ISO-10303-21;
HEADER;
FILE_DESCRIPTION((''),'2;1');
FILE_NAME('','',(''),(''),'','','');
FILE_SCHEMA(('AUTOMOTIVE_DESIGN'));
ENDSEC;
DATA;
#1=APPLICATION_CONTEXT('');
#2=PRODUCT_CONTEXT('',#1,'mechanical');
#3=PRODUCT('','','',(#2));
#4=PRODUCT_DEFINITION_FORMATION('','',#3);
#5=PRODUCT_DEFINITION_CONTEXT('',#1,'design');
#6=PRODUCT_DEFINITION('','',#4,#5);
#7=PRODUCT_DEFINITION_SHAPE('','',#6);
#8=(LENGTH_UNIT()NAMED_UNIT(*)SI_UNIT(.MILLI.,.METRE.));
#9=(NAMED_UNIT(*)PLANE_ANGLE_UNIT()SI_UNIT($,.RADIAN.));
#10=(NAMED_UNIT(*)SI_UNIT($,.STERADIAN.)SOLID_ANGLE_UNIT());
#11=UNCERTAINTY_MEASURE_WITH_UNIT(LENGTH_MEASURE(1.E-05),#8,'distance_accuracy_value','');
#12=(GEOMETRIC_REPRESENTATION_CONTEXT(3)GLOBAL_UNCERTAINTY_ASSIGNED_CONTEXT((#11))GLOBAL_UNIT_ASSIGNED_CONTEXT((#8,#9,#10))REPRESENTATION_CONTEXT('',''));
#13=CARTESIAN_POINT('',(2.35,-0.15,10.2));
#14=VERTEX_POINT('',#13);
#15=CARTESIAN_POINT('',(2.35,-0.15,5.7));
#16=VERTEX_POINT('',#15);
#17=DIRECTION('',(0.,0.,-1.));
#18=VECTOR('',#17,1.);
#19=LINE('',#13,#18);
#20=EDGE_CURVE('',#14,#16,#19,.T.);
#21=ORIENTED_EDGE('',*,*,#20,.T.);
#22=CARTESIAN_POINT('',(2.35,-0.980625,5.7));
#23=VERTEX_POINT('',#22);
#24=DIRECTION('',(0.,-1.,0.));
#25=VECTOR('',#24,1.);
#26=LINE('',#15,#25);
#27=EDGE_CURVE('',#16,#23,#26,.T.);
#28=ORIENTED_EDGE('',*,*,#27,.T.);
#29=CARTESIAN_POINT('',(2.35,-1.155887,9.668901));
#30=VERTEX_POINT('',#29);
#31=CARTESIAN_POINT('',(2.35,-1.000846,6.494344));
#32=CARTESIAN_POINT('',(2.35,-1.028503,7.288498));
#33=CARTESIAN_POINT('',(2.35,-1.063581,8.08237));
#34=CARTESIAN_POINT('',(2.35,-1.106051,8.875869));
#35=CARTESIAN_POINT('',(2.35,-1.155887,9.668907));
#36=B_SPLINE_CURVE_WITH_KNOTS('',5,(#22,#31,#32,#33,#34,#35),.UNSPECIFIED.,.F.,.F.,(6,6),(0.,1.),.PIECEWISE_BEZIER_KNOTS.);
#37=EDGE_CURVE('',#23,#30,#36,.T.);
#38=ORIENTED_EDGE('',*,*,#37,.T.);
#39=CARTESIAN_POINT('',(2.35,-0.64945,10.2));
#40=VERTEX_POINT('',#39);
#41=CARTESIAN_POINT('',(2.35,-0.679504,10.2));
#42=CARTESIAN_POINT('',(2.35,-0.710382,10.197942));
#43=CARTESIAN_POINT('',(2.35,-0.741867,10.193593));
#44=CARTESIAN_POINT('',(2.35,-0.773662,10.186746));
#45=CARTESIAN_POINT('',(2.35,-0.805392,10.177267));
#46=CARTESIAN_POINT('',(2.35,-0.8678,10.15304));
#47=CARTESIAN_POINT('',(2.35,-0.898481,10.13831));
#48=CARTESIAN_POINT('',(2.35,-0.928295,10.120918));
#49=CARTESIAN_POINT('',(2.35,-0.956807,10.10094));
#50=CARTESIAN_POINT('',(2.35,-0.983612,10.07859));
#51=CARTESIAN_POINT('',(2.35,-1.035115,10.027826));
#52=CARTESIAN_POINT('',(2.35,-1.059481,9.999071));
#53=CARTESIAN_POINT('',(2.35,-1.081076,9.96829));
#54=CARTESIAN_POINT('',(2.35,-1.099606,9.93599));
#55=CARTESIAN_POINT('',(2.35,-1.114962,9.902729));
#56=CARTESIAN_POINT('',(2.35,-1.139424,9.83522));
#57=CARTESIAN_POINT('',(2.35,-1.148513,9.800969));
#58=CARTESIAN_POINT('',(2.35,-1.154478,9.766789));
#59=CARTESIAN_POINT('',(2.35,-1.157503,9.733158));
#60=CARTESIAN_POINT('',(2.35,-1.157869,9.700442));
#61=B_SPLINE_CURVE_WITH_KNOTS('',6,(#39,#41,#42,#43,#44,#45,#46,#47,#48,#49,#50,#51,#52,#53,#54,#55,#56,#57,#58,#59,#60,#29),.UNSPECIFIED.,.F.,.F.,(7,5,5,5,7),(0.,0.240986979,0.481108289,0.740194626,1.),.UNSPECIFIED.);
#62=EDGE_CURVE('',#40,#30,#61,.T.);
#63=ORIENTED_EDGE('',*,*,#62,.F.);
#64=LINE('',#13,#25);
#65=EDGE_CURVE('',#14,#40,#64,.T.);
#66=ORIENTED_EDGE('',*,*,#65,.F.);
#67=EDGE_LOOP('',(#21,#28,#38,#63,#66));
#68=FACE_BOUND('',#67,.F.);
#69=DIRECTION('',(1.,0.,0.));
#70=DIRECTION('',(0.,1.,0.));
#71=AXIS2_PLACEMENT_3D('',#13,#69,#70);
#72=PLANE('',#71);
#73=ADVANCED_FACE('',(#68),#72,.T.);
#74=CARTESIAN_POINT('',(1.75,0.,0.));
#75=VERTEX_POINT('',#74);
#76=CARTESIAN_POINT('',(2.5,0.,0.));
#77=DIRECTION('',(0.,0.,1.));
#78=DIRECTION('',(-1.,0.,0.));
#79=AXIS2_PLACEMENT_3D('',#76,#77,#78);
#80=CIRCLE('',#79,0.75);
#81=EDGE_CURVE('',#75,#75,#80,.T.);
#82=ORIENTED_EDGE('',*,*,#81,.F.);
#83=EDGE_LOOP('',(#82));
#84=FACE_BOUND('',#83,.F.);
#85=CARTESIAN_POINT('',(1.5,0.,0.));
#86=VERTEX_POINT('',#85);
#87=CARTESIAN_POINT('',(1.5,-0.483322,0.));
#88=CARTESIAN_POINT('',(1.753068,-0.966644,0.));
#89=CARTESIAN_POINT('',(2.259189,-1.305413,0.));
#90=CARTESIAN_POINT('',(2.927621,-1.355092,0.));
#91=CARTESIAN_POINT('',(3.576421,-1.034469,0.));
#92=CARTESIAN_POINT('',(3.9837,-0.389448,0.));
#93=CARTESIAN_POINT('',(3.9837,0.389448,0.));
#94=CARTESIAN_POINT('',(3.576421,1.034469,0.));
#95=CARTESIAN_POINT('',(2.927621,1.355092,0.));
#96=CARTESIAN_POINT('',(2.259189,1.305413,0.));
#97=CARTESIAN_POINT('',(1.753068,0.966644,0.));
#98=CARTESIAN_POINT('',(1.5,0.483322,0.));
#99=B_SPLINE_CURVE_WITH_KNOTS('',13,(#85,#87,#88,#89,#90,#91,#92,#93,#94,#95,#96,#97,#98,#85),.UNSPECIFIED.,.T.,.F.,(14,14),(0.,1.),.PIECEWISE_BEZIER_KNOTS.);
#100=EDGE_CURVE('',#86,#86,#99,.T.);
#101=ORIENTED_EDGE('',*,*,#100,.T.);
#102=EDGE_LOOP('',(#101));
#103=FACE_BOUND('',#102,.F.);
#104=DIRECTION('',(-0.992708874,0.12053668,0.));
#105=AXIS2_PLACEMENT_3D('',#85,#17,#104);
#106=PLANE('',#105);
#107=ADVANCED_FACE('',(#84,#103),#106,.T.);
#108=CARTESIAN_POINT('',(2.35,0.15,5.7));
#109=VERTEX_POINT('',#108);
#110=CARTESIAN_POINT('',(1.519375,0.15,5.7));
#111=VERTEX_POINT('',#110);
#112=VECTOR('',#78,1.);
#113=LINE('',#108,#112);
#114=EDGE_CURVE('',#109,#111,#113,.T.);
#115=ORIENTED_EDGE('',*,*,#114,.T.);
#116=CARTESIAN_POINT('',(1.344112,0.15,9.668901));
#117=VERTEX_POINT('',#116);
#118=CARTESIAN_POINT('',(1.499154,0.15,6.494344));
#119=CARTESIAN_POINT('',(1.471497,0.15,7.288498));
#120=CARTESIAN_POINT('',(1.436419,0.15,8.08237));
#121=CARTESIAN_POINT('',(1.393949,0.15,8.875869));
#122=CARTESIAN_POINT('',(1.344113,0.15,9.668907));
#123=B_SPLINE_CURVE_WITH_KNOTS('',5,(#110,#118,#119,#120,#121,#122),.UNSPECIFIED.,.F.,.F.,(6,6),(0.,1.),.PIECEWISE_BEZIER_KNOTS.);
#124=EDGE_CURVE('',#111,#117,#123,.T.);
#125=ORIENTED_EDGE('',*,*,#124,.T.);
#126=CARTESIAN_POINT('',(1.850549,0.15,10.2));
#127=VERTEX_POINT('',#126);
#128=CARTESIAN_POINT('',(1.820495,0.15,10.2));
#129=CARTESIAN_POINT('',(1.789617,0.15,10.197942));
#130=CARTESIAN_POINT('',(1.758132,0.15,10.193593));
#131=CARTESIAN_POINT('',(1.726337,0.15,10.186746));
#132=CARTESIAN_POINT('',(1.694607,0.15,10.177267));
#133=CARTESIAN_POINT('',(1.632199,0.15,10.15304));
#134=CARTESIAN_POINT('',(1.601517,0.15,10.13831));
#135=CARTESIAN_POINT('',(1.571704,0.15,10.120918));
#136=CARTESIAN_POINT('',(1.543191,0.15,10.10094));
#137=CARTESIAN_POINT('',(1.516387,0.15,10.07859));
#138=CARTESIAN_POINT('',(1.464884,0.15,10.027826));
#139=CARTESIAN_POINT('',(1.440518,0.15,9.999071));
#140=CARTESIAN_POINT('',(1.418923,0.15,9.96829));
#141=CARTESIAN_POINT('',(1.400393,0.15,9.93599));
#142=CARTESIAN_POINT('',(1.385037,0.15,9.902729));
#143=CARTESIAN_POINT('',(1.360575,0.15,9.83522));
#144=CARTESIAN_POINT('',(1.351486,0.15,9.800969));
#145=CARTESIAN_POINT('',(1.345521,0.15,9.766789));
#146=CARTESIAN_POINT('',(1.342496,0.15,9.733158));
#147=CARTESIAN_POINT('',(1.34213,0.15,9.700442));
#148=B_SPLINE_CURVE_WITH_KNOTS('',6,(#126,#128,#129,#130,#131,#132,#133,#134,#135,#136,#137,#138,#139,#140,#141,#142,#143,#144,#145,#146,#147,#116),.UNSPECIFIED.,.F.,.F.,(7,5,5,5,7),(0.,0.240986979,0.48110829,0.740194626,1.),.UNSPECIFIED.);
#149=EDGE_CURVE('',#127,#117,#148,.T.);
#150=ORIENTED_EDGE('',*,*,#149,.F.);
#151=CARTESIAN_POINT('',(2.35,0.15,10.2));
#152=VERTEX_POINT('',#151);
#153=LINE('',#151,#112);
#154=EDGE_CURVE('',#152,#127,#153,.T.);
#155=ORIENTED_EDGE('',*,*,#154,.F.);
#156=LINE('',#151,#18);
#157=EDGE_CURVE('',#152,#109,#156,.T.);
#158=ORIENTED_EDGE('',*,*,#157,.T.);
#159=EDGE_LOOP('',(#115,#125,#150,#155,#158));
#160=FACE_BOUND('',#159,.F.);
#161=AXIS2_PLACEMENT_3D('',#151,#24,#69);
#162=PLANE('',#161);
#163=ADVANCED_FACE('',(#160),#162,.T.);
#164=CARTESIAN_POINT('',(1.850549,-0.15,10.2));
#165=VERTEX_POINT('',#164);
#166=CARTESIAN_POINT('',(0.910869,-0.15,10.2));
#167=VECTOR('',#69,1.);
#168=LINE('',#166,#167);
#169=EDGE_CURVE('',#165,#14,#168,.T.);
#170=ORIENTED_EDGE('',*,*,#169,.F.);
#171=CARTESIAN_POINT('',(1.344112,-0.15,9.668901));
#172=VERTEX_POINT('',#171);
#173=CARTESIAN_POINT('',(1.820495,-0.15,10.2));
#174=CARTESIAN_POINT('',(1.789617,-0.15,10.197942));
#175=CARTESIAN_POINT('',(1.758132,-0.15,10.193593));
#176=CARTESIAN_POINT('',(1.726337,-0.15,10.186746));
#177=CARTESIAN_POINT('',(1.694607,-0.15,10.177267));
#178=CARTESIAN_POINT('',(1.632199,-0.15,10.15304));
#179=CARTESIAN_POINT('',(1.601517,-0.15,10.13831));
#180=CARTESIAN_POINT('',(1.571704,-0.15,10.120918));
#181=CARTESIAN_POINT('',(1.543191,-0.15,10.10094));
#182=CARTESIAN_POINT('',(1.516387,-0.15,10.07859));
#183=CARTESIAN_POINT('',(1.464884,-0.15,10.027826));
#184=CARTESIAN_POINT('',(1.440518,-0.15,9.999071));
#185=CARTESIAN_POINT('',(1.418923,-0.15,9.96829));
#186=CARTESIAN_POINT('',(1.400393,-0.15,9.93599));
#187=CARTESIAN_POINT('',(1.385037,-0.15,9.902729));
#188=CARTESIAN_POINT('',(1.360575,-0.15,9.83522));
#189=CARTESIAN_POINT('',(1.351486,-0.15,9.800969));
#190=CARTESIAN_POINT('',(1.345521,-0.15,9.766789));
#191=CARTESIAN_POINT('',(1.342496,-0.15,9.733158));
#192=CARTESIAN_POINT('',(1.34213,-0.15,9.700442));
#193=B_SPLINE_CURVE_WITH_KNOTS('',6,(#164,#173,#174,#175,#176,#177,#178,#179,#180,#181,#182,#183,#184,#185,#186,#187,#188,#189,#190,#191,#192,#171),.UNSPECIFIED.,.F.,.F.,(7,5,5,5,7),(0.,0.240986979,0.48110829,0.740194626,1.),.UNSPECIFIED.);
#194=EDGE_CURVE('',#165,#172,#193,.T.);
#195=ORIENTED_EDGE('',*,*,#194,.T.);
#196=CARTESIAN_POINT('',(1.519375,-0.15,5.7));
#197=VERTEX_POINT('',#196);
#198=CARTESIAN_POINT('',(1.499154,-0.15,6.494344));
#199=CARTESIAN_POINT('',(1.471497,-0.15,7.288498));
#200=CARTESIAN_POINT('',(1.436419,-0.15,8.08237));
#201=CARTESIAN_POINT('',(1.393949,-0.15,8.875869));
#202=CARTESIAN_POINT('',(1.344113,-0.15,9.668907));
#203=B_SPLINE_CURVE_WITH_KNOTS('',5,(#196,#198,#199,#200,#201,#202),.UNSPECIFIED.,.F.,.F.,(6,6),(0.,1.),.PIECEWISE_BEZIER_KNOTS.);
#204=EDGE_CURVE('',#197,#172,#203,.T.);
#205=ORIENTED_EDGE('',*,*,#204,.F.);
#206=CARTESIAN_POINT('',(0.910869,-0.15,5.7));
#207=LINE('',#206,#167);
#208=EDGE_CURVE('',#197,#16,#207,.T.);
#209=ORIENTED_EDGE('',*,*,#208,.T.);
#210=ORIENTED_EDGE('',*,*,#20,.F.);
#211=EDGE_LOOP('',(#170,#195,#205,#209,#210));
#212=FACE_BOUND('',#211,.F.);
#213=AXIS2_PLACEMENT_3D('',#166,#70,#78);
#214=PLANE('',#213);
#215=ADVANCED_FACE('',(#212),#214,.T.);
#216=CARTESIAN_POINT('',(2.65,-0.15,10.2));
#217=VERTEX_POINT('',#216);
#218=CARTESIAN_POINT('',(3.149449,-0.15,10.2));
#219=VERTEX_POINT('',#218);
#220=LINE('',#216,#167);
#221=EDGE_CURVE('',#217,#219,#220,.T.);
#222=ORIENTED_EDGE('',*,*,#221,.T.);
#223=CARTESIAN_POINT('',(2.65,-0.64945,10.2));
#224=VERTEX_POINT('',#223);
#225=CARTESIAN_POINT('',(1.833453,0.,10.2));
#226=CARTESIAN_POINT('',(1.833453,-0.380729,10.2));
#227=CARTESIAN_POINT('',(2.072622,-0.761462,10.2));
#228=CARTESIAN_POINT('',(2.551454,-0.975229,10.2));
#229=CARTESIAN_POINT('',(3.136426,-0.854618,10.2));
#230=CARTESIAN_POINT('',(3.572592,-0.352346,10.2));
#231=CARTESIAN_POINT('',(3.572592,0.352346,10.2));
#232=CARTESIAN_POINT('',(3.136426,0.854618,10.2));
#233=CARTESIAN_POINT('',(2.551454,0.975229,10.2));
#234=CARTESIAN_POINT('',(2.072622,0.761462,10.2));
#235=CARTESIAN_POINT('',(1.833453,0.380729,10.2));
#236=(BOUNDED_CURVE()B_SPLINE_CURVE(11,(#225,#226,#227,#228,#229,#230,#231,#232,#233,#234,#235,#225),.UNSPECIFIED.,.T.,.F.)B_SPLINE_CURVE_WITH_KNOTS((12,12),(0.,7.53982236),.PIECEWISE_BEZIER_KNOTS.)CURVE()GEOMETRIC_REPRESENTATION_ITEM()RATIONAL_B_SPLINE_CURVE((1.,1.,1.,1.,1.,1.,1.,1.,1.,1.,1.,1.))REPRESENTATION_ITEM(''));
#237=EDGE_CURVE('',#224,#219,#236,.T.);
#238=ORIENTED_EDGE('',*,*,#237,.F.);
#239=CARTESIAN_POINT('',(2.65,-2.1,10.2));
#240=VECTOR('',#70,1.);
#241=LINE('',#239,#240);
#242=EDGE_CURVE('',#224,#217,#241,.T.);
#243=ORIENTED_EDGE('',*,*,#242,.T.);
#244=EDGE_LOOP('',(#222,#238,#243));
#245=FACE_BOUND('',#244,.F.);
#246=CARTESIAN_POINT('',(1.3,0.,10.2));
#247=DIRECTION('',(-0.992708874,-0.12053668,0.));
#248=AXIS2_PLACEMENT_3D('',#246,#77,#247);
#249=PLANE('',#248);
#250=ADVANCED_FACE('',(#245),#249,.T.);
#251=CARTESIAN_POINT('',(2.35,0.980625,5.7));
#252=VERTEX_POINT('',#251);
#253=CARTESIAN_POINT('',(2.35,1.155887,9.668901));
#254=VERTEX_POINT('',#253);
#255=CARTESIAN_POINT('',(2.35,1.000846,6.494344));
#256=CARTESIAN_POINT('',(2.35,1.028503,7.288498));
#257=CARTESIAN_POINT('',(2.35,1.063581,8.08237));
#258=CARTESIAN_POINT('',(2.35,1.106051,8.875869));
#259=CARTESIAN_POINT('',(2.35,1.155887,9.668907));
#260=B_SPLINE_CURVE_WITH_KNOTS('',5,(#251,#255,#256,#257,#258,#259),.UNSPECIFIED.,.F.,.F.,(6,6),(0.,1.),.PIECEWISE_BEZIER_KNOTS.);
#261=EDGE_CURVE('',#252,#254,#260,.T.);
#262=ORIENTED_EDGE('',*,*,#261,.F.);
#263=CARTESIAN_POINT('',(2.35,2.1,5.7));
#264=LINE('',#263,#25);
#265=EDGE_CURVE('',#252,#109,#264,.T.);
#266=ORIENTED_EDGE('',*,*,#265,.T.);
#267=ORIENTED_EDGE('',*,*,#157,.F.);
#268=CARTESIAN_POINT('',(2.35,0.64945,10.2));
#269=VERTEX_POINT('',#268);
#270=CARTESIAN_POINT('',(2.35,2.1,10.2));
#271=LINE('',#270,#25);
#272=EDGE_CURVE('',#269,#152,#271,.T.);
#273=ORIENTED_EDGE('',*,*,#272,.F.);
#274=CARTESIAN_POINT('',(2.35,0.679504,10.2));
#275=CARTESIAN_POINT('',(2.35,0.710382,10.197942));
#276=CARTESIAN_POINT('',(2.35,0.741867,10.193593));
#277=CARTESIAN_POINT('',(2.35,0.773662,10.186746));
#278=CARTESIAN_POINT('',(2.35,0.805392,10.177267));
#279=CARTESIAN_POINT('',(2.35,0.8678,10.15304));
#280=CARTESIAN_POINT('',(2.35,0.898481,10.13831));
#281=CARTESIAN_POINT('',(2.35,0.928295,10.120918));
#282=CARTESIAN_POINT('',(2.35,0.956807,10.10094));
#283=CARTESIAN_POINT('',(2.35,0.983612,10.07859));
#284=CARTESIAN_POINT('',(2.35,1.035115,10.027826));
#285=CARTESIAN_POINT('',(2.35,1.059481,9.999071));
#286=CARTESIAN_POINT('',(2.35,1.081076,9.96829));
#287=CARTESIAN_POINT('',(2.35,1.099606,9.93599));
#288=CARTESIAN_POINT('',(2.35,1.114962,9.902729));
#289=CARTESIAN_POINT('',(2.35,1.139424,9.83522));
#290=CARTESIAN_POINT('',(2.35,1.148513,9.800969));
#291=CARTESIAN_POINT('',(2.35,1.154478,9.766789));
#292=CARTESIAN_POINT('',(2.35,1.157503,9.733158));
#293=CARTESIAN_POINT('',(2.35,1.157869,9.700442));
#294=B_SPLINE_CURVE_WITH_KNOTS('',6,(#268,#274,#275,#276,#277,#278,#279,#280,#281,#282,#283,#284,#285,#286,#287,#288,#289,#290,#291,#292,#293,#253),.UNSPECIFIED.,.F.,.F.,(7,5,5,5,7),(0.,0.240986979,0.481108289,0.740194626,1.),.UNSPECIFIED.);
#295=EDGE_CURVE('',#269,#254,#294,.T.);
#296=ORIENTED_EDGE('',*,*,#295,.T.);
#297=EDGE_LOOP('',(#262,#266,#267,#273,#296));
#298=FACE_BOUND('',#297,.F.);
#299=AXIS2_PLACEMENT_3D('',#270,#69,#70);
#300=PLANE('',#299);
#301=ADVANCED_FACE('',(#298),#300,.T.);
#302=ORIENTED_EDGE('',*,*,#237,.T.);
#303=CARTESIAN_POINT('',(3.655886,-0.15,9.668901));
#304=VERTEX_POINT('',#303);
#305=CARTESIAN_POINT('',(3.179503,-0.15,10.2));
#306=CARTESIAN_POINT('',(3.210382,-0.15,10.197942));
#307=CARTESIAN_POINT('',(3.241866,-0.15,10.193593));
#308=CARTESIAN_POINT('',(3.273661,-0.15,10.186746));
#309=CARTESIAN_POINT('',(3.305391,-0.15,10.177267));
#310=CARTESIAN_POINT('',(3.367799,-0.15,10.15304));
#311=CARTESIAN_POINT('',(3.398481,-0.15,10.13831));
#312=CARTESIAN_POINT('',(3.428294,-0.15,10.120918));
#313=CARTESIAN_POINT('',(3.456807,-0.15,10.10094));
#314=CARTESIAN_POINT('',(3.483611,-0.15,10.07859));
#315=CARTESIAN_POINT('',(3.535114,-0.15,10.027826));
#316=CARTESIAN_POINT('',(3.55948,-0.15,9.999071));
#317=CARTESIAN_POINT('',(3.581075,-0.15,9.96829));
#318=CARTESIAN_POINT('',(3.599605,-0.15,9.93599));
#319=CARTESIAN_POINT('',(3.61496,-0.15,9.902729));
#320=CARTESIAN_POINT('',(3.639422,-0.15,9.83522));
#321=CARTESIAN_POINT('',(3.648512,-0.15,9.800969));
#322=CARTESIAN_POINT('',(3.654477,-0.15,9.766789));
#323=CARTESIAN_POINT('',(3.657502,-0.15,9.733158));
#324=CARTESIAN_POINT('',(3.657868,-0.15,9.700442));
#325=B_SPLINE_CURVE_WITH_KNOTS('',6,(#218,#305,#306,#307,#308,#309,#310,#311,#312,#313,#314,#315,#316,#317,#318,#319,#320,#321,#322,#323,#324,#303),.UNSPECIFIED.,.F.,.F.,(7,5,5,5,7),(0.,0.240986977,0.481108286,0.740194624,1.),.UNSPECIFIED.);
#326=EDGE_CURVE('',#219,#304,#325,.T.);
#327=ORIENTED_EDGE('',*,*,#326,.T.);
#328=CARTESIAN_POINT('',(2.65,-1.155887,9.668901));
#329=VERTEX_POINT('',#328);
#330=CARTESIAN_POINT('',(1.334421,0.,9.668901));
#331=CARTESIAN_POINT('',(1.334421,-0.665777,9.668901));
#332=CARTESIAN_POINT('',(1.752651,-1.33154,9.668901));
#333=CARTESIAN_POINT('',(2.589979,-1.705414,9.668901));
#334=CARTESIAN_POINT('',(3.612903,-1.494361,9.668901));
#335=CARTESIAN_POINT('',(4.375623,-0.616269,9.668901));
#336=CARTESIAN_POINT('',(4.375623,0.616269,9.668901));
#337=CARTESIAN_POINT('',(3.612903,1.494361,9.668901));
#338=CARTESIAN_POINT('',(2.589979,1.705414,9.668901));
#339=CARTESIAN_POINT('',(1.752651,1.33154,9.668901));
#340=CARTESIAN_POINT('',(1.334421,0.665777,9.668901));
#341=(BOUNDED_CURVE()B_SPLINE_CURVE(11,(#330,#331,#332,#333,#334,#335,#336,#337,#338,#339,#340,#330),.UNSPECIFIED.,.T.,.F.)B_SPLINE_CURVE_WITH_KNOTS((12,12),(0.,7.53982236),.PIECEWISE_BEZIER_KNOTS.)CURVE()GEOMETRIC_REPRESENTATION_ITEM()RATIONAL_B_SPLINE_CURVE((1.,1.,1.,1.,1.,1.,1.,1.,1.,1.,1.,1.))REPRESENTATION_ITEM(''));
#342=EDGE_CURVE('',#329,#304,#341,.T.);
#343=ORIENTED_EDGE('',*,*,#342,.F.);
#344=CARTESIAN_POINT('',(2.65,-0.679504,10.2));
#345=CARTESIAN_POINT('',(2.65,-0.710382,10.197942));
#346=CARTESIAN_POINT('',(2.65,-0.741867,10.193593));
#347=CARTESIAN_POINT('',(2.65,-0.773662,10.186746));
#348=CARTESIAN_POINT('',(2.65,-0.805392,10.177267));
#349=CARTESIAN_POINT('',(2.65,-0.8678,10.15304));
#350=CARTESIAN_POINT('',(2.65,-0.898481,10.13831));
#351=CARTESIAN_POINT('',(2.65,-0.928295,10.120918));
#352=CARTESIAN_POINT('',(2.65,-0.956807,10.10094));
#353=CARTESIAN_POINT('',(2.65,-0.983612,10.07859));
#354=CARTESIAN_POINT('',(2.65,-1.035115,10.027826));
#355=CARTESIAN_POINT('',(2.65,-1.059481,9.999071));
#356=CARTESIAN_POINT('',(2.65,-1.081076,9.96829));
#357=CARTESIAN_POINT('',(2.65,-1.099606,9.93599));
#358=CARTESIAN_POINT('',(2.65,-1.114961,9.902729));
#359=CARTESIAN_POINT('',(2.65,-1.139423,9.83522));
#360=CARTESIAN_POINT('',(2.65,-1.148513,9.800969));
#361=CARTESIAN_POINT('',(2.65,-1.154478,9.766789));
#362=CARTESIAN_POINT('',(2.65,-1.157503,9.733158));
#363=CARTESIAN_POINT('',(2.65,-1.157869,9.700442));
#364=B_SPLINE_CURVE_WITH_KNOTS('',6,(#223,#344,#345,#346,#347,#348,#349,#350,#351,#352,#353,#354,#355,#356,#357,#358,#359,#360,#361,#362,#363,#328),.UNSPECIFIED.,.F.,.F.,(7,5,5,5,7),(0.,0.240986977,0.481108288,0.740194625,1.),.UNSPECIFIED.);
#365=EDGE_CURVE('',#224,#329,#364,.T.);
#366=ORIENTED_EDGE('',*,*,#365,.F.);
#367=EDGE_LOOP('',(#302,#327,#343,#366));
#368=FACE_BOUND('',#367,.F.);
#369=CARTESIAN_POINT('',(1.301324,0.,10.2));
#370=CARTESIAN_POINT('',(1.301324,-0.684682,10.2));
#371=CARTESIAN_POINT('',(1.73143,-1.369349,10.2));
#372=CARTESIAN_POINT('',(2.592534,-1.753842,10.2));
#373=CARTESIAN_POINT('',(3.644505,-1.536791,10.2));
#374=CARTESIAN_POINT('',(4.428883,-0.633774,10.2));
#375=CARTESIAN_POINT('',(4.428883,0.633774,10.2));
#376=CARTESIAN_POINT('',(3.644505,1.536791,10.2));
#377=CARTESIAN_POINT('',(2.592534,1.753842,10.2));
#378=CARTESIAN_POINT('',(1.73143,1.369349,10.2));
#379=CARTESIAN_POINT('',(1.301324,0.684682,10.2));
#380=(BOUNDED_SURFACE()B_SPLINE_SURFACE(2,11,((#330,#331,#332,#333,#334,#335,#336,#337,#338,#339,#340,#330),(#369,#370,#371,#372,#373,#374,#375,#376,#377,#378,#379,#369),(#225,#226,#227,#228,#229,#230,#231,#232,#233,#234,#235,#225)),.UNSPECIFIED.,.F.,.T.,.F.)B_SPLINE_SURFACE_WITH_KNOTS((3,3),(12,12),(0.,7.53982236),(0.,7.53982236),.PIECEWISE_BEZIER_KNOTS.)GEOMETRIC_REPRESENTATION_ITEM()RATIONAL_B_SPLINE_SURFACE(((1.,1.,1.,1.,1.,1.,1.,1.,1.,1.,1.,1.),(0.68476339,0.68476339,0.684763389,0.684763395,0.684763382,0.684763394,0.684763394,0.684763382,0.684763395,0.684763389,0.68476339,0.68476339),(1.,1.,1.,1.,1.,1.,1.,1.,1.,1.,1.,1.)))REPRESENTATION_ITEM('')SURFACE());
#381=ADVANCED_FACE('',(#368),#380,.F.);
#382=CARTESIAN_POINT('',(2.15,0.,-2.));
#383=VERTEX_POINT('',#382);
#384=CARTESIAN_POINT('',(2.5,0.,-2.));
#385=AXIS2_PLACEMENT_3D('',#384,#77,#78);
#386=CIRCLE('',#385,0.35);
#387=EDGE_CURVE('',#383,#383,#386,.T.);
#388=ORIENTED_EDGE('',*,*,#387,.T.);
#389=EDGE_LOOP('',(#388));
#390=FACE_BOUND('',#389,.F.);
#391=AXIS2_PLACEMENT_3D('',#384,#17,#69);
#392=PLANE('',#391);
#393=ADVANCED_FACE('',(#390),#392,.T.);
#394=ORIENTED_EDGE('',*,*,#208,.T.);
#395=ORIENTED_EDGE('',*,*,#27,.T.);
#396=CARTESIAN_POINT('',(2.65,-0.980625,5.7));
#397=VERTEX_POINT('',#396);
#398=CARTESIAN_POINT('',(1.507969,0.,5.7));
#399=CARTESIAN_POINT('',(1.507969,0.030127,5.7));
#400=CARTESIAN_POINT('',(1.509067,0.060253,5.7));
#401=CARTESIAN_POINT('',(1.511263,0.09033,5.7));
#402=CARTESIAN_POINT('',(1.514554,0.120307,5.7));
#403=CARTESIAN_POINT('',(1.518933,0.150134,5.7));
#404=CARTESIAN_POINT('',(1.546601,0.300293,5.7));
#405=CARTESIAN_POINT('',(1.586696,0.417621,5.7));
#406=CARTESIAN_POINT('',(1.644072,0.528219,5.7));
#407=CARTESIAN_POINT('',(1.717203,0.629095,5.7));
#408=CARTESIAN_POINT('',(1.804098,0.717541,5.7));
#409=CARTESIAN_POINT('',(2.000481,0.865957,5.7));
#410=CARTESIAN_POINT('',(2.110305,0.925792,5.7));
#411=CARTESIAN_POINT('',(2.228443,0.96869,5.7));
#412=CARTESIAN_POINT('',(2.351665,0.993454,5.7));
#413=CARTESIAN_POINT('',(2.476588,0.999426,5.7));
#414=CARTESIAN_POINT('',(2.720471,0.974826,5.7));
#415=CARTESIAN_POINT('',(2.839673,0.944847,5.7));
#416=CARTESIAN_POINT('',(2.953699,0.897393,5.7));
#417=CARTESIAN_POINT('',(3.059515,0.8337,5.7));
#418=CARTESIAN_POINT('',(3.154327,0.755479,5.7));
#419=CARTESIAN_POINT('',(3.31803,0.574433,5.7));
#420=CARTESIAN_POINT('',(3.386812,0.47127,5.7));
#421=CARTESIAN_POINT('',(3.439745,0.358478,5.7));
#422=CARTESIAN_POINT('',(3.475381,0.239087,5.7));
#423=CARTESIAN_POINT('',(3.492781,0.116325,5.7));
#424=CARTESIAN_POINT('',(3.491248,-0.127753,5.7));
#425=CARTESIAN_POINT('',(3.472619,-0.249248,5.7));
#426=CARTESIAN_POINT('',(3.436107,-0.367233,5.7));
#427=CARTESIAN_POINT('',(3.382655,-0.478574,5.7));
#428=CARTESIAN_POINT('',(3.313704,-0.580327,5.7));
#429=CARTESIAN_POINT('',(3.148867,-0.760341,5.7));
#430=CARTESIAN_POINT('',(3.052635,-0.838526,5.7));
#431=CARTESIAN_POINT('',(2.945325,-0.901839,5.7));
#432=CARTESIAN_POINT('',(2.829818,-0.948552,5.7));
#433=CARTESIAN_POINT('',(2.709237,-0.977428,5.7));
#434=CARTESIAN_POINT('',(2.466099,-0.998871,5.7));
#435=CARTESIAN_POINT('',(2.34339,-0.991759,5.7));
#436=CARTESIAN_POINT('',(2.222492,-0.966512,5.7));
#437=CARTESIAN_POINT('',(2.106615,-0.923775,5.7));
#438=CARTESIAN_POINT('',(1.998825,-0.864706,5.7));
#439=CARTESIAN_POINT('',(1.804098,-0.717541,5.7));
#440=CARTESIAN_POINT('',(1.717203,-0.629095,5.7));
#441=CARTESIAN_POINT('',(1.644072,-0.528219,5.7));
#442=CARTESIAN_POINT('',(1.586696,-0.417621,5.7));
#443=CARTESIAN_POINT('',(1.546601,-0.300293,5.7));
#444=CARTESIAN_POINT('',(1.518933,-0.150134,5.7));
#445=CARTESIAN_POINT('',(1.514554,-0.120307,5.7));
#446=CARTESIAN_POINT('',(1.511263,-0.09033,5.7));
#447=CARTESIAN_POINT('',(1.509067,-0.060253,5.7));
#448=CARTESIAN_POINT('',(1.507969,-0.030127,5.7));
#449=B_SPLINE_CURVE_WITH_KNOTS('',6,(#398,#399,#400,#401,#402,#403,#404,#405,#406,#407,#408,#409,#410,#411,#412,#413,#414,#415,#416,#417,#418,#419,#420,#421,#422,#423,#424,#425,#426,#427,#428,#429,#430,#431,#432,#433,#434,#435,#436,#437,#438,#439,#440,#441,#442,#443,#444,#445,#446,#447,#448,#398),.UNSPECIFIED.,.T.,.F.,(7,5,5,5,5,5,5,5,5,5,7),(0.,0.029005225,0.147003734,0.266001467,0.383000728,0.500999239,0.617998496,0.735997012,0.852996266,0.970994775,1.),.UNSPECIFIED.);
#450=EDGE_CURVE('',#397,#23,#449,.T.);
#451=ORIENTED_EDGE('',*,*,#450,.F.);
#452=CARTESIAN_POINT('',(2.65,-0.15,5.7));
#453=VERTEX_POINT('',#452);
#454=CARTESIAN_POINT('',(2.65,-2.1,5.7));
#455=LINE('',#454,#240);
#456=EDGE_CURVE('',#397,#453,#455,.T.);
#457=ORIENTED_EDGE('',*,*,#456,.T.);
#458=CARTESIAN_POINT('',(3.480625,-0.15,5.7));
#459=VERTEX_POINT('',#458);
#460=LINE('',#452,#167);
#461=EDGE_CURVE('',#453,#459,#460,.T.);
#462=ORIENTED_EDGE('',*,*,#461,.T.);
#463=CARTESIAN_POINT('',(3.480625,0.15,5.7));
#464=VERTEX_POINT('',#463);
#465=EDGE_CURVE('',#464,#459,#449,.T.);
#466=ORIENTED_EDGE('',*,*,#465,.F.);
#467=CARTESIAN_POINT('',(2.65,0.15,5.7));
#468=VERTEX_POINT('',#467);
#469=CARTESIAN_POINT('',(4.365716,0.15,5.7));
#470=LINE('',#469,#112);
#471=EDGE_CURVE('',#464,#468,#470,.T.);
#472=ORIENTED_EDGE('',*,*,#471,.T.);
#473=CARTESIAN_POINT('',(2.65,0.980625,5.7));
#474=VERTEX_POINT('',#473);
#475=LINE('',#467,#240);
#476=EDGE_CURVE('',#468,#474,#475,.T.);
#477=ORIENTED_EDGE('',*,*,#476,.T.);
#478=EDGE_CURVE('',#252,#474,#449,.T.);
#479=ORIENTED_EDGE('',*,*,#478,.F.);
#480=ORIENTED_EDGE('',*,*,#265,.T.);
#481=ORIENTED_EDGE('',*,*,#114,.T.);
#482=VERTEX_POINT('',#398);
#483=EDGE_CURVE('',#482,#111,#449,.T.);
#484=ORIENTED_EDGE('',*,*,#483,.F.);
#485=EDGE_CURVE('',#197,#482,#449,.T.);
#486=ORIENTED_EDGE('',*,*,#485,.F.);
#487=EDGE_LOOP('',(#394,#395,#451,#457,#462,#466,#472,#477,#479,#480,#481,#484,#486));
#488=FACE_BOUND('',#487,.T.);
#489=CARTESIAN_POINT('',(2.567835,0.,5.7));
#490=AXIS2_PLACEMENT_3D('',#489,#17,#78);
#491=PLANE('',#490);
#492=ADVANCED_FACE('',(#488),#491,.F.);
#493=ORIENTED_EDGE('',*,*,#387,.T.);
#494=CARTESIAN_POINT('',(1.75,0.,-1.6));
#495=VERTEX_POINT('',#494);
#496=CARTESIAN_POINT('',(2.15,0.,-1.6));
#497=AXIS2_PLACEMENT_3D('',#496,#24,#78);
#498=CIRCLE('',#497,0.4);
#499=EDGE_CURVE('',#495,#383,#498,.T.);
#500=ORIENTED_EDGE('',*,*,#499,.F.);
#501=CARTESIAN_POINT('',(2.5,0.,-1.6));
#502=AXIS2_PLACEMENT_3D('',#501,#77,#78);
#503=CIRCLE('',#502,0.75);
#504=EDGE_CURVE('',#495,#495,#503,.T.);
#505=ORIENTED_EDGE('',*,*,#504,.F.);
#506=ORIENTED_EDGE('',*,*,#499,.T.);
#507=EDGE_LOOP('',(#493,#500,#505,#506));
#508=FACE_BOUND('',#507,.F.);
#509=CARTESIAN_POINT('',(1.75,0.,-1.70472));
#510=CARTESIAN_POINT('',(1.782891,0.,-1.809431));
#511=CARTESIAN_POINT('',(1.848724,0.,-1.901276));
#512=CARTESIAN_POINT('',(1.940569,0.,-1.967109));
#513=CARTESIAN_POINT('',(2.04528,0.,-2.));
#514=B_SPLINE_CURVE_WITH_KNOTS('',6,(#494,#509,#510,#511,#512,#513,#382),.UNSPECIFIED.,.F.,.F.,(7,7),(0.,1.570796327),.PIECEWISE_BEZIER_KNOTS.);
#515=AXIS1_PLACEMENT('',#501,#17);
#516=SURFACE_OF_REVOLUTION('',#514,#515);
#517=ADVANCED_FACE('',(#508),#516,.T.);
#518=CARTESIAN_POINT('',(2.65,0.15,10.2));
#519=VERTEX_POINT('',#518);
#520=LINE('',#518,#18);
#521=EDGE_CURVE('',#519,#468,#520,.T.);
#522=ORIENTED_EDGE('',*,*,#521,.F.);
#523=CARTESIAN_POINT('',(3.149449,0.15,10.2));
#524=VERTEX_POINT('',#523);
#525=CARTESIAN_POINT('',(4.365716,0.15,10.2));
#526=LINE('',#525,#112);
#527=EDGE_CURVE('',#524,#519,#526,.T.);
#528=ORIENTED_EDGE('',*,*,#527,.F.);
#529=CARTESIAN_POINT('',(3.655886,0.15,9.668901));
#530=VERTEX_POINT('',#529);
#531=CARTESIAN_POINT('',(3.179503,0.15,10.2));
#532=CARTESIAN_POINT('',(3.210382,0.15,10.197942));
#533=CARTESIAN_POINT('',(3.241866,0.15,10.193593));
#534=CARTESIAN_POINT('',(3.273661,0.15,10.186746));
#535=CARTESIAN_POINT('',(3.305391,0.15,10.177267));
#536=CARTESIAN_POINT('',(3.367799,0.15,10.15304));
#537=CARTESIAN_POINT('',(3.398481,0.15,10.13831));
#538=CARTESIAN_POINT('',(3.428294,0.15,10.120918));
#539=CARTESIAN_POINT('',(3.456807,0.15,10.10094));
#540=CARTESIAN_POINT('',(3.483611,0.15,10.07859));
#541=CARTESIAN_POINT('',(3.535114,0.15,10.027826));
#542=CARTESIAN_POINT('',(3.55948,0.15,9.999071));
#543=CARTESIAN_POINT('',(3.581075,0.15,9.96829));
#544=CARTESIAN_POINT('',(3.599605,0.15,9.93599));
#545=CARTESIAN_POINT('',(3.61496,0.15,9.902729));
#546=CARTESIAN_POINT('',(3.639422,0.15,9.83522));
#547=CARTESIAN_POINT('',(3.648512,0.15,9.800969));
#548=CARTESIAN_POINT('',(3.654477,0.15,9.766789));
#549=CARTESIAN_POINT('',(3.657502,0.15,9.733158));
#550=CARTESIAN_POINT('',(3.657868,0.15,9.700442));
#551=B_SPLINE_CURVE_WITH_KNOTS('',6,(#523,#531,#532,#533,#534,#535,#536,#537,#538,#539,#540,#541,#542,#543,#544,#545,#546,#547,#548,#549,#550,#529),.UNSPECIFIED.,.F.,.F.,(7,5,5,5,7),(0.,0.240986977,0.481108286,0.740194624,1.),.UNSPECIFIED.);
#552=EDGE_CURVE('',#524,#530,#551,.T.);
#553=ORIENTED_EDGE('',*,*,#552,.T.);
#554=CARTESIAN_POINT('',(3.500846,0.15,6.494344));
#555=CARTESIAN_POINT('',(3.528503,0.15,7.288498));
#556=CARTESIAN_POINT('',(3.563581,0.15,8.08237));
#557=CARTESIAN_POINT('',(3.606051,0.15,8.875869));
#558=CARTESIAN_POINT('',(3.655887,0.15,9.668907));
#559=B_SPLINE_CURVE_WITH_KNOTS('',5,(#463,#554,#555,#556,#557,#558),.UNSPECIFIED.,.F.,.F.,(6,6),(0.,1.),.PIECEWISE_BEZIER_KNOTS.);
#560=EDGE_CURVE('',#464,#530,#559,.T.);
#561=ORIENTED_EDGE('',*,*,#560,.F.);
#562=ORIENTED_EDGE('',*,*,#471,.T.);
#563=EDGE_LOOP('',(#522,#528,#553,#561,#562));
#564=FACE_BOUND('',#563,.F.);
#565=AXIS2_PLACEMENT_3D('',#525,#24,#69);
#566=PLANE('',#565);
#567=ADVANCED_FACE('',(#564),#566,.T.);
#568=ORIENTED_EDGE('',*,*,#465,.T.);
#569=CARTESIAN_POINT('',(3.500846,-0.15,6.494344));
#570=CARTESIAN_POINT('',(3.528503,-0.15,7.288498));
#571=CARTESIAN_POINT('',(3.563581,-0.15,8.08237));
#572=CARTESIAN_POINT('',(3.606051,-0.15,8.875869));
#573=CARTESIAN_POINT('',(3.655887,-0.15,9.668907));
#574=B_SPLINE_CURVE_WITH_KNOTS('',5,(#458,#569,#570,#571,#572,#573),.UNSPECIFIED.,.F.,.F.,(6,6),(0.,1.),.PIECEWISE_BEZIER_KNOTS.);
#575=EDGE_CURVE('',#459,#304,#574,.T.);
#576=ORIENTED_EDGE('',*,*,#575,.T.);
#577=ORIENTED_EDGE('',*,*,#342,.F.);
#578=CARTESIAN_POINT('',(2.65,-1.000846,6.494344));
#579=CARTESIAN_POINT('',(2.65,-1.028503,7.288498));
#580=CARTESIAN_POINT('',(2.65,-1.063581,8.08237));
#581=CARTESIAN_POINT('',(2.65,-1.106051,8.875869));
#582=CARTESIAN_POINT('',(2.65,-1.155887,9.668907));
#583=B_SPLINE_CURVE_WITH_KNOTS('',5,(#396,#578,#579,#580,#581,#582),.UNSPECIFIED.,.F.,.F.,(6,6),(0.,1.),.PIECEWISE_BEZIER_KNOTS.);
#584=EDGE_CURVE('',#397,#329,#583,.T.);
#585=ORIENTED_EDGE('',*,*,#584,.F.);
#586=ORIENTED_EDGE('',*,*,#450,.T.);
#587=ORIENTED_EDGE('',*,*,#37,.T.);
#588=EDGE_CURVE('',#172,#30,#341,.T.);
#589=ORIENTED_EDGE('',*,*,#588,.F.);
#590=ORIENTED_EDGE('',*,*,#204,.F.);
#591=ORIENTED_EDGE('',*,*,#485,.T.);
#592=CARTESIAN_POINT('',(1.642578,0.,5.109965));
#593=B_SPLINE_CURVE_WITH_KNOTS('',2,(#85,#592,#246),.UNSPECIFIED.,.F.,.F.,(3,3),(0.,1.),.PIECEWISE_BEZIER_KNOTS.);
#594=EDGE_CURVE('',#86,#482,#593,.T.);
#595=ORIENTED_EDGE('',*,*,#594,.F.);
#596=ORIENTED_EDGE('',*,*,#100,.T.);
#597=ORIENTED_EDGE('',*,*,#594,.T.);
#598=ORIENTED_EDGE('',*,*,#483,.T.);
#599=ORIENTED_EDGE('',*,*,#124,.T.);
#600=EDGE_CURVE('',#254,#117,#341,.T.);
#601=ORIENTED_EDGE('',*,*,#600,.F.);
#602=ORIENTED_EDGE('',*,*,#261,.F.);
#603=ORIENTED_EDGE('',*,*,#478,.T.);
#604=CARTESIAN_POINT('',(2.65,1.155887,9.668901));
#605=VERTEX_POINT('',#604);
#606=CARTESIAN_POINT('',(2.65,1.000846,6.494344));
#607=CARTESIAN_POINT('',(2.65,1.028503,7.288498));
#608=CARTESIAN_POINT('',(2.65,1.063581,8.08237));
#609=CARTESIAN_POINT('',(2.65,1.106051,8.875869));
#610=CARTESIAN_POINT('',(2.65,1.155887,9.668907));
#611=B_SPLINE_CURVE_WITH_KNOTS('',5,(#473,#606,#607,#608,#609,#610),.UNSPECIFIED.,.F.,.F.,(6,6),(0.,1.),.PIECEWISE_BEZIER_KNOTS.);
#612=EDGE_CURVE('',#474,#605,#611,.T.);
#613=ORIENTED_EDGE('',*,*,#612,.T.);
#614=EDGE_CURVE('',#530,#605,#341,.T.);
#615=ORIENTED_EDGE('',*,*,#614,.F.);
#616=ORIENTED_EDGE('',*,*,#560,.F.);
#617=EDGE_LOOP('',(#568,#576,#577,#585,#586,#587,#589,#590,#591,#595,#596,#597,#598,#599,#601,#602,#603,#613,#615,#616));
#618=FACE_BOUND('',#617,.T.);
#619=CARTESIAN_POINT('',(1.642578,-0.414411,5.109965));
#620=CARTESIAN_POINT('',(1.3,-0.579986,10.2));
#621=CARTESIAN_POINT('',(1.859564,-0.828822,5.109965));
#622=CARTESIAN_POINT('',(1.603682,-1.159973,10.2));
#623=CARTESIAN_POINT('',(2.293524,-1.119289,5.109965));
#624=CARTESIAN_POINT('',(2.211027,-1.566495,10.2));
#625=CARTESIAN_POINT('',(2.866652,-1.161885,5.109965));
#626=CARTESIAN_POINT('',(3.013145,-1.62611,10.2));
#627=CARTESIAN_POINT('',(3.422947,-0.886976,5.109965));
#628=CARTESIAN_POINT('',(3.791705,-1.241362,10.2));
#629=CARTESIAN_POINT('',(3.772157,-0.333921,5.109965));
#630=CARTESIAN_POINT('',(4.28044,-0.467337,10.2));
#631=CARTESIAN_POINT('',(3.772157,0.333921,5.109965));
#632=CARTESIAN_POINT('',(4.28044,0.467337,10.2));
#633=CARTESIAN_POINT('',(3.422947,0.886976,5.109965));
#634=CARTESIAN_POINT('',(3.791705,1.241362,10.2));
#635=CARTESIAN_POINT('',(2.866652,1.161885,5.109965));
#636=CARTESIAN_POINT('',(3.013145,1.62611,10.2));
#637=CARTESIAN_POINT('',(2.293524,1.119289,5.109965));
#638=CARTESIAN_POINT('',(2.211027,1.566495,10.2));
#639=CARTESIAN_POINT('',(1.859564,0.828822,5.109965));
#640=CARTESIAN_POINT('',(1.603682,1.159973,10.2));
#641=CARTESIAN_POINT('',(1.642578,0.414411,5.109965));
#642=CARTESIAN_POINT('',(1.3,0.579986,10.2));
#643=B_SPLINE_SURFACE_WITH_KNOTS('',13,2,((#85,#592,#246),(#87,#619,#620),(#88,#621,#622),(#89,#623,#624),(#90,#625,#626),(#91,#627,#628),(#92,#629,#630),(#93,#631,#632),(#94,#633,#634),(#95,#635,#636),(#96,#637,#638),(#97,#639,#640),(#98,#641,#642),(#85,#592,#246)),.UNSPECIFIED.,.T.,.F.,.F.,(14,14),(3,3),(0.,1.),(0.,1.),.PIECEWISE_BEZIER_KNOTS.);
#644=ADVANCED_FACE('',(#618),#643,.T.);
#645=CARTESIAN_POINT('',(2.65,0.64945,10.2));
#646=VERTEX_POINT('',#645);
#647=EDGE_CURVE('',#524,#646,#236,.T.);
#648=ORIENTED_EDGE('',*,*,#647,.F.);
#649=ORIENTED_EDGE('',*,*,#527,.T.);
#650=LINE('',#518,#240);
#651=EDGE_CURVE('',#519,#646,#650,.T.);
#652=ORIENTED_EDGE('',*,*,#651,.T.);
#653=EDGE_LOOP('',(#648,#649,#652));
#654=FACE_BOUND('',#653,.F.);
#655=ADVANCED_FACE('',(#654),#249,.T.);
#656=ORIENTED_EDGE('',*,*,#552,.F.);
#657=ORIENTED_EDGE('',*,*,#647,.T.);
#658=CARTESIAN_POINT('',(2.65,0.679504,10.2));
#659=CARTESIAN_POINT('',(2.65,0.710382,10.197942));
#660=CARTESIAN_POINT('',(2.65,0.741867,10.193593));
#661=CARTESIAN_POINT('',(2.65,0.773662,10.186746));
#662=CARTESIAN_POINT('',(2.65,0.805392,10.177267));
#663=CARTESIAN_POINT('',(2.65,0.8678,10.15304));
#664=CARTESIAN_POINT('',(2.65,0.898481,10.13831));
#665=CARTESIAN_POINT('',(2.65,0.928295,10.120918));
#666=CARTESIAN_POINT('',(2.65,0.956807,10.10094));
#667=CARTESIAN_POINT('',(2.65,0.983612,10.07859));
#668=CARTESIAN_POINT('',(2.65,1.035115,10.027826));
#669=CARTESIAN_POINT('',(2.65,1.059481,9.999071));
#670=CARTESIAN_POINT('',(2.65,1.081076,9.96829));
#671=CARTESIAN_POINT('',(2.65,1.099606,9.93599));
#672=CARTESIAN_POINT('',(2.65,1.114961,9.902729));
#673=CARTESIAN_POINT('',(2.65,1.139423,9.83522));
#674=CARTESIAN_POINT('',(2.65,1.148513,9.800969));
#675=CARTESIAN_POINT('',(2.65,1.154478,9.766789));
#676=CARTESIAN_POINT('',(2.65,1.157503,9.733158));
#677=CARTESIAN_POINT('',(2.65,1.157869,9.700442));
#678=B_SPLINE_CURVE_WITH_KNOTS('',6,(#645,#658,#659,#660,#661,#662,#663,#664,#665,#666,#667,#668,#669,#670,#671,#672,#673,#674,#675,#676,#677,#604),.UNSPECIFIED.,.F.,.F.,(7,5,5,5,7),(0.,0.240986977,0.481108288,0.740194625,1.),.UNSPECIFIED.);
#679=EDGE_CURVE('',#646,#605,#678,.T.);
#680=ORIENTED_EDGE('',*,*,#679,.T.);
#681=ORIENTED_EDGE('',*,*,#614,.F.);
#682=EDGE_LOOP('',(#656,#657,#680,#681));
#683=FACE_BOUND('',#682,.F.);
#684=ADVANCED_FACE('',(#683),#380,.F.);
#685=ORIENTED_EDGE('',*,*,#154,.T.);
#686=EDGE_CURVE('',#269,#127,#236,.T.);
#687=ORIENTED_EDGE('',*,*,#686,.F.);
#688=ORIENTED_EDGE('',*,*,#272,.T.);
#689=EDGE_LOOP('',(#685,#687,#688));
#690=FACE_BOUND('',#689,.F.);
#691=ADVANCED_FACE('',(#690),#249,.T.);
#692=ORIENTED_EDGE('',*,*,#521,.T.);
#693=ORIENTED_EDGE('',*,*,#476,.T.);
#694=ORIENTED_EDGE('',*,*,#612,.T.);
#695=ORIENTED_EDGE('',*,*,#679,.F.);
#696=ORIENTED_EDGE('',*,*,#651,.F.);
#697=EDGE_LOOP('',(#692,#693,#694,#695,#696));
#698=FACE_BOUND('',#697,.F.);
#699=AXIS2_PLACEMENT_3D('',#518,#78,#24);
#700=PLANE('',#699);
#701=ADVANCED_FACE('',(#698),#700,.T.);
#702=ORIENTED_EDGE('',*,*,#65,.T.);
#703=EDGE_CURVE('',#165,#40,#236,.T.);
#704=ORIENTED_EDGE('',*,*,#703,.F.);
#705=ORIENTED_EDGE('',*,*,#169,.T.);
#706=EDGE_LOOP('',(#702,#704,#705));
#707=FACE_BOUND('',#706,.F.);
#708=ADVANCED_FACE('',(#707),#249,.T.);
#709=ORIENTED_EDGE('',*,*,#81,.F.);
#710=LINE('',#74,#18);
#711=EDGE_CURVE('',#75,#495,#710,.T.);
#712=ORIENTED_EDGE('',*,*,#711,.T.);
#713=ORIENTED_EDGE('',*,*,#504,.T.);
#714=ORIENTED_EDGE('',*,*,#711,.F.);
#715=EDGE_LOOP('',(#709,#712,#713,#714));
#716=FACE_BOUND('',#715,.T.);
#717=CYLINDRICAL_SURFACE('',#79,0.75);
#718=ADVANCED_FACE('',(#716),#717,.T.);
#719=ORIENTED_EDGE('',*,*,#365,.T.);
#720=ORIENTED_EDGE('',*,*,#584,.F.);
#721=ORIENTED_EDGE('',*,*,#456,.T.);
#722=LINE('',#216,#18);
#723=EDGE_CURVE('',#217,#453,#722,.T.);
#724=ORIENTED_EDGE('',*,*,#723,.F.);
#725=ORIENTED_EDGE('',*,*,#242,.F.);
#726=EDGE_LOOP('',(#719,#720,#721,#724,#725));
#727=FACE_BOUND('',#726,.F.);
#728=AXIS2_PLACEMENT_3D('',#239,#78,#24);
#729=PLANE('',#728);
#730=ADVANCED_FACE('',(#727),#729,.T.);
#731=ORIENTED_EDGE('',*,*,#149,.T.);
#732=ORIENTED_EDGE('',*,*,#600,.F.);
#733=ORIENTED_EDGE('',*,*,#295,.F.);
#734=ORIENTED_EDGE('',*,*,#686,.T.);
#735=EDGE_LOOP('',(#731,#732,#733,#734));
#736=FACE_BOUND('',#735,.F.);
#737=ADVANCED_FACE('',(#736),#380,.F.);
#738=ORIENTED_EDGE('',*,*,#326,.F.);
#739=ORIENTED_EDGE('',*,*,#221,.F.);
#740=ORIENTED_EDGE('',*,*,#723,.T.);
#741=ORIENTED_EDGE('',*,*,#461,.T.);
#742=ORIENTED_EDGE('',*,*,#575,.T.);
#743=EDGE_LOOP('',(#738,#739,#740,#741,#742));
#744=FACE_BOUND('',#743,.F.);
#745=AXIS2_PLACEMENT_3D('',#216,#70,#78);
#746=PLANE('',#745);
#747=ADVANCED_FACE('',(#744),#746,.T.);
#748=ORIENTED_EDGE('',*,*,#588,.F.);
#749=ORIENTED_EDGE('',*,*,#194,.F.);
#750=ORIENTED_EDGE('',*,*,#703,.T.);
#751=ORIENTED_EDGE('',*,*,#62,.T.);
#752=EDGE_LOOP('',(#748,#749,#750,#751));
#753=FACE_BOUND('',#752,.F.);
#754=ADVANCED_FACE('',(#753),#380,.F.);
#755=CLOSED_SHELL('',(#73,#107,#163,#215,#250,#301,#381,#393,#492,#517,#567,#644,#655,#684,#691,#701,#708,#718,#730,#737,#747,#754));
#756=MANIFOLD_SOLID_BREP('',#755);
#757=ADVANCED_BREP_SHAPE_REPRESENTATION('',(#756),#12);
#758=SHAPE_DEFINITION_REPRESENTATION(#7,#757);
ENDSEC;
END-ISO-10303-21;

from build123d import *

# Parameters (mm, degrees)
EXTRUDE005_DEPTH = 4.5
SKETCH003_R      = 1
SKETCH004_R      = 1
SKETCH005_R      = 1.2
FILLET006_R      = 0.5
SKETCH007_R      = 0.75
EXTRUDE006_DEPTH = 2
FILLET013_R      = 0.4


with BuildPart() as extrude005:
    # Sketch006 → Extrude005 (new body)
    with BuildSketch(Plane.XY.offset(10.2)):
        Polygon((-2.65, 2.1), (-2.35, 2.1), (-2.35, 0.15), (-0.910869, 0.15), (-0.910869, -0.15), (-2.35, -0.15), (-2.35, -2.1), (-2.65, -2.1), (-2.65, -0.15), (-4.365716, -0.15), (-4.365716, 0.15), (-2.65, 0.15), align=None)
    extrude(amount=-EXTRUDE005_DEPTH)


with BuildPart() as cut002:
    # Sketch003 → Loft section 0
    with BuildSketch(Plane(origin=(0, 0, 0), x_dir=(1, 0, 0), z_dir=(0, 0, -1))):
        with Locations((-2.5, 0)):
            Circle(SKETCH003_R)
    # Sketch004 → Loft section 1
    with BuildSketch(Plane(origin=(0, 0, 6), x_dir=(1, 0, 0), z_dir=(0, 0, -1))):
        with Locations((-2.5, 0)):
            Circle(SKETCH004_R)
    # Sketch005 → Loft section 2
    with BuildSketch(Plane(origin=(0, 0, 10.2), x_dir=(1, 0, 0), z_dir=(0, 0, -1))):
        with Locations((-2.5, 0)):
            Circle(SKETCH005_R)
    loft()

    # Fillet006
    fillet006_edges = [cut002.edges().sort_by_distance(p)[0] for p in [
        (-3.7, 0, 10.2),
    ]]
    fillet(fillet006_edges, radius=FILLET006_R)

    # Cut002: cut Extrude005
    add(extrude005.part, mode=Mode.SUBTRACT)


with BuildPart() as pin003:
    # Sketch007 → Extrude006 (new body)
    with BuildSketch(Plane(origin=(0, 0, 0), x_dir=(1, 0, 0), z_dir=(0, 0, -1))):
        with Locations((-2.5, 0)):
            Circle(SKETCH007_R)
    extrude(amount=EXTRUDE006_DEPTH)

    # Fusion001: union Cut002
    add(cut002.part)

    # Fillet013
    fillet013_edges = [pin003.edges().sort_by_distance(p)[0] for p in [
        (-3.25, 0, -2),
    ]]
    fillet(fillet013_edges, radius=FILLET013_R)


with BuildPart() as part_mirroring:
    # Part__Mirroring: instance of pin003
    add(pin003.part.mirror(Plane(origin=(0, 0, 0), x_dir=(0, -1, 0), z_dir=(1, 0, 0))))


solid = part_mirroring.part
